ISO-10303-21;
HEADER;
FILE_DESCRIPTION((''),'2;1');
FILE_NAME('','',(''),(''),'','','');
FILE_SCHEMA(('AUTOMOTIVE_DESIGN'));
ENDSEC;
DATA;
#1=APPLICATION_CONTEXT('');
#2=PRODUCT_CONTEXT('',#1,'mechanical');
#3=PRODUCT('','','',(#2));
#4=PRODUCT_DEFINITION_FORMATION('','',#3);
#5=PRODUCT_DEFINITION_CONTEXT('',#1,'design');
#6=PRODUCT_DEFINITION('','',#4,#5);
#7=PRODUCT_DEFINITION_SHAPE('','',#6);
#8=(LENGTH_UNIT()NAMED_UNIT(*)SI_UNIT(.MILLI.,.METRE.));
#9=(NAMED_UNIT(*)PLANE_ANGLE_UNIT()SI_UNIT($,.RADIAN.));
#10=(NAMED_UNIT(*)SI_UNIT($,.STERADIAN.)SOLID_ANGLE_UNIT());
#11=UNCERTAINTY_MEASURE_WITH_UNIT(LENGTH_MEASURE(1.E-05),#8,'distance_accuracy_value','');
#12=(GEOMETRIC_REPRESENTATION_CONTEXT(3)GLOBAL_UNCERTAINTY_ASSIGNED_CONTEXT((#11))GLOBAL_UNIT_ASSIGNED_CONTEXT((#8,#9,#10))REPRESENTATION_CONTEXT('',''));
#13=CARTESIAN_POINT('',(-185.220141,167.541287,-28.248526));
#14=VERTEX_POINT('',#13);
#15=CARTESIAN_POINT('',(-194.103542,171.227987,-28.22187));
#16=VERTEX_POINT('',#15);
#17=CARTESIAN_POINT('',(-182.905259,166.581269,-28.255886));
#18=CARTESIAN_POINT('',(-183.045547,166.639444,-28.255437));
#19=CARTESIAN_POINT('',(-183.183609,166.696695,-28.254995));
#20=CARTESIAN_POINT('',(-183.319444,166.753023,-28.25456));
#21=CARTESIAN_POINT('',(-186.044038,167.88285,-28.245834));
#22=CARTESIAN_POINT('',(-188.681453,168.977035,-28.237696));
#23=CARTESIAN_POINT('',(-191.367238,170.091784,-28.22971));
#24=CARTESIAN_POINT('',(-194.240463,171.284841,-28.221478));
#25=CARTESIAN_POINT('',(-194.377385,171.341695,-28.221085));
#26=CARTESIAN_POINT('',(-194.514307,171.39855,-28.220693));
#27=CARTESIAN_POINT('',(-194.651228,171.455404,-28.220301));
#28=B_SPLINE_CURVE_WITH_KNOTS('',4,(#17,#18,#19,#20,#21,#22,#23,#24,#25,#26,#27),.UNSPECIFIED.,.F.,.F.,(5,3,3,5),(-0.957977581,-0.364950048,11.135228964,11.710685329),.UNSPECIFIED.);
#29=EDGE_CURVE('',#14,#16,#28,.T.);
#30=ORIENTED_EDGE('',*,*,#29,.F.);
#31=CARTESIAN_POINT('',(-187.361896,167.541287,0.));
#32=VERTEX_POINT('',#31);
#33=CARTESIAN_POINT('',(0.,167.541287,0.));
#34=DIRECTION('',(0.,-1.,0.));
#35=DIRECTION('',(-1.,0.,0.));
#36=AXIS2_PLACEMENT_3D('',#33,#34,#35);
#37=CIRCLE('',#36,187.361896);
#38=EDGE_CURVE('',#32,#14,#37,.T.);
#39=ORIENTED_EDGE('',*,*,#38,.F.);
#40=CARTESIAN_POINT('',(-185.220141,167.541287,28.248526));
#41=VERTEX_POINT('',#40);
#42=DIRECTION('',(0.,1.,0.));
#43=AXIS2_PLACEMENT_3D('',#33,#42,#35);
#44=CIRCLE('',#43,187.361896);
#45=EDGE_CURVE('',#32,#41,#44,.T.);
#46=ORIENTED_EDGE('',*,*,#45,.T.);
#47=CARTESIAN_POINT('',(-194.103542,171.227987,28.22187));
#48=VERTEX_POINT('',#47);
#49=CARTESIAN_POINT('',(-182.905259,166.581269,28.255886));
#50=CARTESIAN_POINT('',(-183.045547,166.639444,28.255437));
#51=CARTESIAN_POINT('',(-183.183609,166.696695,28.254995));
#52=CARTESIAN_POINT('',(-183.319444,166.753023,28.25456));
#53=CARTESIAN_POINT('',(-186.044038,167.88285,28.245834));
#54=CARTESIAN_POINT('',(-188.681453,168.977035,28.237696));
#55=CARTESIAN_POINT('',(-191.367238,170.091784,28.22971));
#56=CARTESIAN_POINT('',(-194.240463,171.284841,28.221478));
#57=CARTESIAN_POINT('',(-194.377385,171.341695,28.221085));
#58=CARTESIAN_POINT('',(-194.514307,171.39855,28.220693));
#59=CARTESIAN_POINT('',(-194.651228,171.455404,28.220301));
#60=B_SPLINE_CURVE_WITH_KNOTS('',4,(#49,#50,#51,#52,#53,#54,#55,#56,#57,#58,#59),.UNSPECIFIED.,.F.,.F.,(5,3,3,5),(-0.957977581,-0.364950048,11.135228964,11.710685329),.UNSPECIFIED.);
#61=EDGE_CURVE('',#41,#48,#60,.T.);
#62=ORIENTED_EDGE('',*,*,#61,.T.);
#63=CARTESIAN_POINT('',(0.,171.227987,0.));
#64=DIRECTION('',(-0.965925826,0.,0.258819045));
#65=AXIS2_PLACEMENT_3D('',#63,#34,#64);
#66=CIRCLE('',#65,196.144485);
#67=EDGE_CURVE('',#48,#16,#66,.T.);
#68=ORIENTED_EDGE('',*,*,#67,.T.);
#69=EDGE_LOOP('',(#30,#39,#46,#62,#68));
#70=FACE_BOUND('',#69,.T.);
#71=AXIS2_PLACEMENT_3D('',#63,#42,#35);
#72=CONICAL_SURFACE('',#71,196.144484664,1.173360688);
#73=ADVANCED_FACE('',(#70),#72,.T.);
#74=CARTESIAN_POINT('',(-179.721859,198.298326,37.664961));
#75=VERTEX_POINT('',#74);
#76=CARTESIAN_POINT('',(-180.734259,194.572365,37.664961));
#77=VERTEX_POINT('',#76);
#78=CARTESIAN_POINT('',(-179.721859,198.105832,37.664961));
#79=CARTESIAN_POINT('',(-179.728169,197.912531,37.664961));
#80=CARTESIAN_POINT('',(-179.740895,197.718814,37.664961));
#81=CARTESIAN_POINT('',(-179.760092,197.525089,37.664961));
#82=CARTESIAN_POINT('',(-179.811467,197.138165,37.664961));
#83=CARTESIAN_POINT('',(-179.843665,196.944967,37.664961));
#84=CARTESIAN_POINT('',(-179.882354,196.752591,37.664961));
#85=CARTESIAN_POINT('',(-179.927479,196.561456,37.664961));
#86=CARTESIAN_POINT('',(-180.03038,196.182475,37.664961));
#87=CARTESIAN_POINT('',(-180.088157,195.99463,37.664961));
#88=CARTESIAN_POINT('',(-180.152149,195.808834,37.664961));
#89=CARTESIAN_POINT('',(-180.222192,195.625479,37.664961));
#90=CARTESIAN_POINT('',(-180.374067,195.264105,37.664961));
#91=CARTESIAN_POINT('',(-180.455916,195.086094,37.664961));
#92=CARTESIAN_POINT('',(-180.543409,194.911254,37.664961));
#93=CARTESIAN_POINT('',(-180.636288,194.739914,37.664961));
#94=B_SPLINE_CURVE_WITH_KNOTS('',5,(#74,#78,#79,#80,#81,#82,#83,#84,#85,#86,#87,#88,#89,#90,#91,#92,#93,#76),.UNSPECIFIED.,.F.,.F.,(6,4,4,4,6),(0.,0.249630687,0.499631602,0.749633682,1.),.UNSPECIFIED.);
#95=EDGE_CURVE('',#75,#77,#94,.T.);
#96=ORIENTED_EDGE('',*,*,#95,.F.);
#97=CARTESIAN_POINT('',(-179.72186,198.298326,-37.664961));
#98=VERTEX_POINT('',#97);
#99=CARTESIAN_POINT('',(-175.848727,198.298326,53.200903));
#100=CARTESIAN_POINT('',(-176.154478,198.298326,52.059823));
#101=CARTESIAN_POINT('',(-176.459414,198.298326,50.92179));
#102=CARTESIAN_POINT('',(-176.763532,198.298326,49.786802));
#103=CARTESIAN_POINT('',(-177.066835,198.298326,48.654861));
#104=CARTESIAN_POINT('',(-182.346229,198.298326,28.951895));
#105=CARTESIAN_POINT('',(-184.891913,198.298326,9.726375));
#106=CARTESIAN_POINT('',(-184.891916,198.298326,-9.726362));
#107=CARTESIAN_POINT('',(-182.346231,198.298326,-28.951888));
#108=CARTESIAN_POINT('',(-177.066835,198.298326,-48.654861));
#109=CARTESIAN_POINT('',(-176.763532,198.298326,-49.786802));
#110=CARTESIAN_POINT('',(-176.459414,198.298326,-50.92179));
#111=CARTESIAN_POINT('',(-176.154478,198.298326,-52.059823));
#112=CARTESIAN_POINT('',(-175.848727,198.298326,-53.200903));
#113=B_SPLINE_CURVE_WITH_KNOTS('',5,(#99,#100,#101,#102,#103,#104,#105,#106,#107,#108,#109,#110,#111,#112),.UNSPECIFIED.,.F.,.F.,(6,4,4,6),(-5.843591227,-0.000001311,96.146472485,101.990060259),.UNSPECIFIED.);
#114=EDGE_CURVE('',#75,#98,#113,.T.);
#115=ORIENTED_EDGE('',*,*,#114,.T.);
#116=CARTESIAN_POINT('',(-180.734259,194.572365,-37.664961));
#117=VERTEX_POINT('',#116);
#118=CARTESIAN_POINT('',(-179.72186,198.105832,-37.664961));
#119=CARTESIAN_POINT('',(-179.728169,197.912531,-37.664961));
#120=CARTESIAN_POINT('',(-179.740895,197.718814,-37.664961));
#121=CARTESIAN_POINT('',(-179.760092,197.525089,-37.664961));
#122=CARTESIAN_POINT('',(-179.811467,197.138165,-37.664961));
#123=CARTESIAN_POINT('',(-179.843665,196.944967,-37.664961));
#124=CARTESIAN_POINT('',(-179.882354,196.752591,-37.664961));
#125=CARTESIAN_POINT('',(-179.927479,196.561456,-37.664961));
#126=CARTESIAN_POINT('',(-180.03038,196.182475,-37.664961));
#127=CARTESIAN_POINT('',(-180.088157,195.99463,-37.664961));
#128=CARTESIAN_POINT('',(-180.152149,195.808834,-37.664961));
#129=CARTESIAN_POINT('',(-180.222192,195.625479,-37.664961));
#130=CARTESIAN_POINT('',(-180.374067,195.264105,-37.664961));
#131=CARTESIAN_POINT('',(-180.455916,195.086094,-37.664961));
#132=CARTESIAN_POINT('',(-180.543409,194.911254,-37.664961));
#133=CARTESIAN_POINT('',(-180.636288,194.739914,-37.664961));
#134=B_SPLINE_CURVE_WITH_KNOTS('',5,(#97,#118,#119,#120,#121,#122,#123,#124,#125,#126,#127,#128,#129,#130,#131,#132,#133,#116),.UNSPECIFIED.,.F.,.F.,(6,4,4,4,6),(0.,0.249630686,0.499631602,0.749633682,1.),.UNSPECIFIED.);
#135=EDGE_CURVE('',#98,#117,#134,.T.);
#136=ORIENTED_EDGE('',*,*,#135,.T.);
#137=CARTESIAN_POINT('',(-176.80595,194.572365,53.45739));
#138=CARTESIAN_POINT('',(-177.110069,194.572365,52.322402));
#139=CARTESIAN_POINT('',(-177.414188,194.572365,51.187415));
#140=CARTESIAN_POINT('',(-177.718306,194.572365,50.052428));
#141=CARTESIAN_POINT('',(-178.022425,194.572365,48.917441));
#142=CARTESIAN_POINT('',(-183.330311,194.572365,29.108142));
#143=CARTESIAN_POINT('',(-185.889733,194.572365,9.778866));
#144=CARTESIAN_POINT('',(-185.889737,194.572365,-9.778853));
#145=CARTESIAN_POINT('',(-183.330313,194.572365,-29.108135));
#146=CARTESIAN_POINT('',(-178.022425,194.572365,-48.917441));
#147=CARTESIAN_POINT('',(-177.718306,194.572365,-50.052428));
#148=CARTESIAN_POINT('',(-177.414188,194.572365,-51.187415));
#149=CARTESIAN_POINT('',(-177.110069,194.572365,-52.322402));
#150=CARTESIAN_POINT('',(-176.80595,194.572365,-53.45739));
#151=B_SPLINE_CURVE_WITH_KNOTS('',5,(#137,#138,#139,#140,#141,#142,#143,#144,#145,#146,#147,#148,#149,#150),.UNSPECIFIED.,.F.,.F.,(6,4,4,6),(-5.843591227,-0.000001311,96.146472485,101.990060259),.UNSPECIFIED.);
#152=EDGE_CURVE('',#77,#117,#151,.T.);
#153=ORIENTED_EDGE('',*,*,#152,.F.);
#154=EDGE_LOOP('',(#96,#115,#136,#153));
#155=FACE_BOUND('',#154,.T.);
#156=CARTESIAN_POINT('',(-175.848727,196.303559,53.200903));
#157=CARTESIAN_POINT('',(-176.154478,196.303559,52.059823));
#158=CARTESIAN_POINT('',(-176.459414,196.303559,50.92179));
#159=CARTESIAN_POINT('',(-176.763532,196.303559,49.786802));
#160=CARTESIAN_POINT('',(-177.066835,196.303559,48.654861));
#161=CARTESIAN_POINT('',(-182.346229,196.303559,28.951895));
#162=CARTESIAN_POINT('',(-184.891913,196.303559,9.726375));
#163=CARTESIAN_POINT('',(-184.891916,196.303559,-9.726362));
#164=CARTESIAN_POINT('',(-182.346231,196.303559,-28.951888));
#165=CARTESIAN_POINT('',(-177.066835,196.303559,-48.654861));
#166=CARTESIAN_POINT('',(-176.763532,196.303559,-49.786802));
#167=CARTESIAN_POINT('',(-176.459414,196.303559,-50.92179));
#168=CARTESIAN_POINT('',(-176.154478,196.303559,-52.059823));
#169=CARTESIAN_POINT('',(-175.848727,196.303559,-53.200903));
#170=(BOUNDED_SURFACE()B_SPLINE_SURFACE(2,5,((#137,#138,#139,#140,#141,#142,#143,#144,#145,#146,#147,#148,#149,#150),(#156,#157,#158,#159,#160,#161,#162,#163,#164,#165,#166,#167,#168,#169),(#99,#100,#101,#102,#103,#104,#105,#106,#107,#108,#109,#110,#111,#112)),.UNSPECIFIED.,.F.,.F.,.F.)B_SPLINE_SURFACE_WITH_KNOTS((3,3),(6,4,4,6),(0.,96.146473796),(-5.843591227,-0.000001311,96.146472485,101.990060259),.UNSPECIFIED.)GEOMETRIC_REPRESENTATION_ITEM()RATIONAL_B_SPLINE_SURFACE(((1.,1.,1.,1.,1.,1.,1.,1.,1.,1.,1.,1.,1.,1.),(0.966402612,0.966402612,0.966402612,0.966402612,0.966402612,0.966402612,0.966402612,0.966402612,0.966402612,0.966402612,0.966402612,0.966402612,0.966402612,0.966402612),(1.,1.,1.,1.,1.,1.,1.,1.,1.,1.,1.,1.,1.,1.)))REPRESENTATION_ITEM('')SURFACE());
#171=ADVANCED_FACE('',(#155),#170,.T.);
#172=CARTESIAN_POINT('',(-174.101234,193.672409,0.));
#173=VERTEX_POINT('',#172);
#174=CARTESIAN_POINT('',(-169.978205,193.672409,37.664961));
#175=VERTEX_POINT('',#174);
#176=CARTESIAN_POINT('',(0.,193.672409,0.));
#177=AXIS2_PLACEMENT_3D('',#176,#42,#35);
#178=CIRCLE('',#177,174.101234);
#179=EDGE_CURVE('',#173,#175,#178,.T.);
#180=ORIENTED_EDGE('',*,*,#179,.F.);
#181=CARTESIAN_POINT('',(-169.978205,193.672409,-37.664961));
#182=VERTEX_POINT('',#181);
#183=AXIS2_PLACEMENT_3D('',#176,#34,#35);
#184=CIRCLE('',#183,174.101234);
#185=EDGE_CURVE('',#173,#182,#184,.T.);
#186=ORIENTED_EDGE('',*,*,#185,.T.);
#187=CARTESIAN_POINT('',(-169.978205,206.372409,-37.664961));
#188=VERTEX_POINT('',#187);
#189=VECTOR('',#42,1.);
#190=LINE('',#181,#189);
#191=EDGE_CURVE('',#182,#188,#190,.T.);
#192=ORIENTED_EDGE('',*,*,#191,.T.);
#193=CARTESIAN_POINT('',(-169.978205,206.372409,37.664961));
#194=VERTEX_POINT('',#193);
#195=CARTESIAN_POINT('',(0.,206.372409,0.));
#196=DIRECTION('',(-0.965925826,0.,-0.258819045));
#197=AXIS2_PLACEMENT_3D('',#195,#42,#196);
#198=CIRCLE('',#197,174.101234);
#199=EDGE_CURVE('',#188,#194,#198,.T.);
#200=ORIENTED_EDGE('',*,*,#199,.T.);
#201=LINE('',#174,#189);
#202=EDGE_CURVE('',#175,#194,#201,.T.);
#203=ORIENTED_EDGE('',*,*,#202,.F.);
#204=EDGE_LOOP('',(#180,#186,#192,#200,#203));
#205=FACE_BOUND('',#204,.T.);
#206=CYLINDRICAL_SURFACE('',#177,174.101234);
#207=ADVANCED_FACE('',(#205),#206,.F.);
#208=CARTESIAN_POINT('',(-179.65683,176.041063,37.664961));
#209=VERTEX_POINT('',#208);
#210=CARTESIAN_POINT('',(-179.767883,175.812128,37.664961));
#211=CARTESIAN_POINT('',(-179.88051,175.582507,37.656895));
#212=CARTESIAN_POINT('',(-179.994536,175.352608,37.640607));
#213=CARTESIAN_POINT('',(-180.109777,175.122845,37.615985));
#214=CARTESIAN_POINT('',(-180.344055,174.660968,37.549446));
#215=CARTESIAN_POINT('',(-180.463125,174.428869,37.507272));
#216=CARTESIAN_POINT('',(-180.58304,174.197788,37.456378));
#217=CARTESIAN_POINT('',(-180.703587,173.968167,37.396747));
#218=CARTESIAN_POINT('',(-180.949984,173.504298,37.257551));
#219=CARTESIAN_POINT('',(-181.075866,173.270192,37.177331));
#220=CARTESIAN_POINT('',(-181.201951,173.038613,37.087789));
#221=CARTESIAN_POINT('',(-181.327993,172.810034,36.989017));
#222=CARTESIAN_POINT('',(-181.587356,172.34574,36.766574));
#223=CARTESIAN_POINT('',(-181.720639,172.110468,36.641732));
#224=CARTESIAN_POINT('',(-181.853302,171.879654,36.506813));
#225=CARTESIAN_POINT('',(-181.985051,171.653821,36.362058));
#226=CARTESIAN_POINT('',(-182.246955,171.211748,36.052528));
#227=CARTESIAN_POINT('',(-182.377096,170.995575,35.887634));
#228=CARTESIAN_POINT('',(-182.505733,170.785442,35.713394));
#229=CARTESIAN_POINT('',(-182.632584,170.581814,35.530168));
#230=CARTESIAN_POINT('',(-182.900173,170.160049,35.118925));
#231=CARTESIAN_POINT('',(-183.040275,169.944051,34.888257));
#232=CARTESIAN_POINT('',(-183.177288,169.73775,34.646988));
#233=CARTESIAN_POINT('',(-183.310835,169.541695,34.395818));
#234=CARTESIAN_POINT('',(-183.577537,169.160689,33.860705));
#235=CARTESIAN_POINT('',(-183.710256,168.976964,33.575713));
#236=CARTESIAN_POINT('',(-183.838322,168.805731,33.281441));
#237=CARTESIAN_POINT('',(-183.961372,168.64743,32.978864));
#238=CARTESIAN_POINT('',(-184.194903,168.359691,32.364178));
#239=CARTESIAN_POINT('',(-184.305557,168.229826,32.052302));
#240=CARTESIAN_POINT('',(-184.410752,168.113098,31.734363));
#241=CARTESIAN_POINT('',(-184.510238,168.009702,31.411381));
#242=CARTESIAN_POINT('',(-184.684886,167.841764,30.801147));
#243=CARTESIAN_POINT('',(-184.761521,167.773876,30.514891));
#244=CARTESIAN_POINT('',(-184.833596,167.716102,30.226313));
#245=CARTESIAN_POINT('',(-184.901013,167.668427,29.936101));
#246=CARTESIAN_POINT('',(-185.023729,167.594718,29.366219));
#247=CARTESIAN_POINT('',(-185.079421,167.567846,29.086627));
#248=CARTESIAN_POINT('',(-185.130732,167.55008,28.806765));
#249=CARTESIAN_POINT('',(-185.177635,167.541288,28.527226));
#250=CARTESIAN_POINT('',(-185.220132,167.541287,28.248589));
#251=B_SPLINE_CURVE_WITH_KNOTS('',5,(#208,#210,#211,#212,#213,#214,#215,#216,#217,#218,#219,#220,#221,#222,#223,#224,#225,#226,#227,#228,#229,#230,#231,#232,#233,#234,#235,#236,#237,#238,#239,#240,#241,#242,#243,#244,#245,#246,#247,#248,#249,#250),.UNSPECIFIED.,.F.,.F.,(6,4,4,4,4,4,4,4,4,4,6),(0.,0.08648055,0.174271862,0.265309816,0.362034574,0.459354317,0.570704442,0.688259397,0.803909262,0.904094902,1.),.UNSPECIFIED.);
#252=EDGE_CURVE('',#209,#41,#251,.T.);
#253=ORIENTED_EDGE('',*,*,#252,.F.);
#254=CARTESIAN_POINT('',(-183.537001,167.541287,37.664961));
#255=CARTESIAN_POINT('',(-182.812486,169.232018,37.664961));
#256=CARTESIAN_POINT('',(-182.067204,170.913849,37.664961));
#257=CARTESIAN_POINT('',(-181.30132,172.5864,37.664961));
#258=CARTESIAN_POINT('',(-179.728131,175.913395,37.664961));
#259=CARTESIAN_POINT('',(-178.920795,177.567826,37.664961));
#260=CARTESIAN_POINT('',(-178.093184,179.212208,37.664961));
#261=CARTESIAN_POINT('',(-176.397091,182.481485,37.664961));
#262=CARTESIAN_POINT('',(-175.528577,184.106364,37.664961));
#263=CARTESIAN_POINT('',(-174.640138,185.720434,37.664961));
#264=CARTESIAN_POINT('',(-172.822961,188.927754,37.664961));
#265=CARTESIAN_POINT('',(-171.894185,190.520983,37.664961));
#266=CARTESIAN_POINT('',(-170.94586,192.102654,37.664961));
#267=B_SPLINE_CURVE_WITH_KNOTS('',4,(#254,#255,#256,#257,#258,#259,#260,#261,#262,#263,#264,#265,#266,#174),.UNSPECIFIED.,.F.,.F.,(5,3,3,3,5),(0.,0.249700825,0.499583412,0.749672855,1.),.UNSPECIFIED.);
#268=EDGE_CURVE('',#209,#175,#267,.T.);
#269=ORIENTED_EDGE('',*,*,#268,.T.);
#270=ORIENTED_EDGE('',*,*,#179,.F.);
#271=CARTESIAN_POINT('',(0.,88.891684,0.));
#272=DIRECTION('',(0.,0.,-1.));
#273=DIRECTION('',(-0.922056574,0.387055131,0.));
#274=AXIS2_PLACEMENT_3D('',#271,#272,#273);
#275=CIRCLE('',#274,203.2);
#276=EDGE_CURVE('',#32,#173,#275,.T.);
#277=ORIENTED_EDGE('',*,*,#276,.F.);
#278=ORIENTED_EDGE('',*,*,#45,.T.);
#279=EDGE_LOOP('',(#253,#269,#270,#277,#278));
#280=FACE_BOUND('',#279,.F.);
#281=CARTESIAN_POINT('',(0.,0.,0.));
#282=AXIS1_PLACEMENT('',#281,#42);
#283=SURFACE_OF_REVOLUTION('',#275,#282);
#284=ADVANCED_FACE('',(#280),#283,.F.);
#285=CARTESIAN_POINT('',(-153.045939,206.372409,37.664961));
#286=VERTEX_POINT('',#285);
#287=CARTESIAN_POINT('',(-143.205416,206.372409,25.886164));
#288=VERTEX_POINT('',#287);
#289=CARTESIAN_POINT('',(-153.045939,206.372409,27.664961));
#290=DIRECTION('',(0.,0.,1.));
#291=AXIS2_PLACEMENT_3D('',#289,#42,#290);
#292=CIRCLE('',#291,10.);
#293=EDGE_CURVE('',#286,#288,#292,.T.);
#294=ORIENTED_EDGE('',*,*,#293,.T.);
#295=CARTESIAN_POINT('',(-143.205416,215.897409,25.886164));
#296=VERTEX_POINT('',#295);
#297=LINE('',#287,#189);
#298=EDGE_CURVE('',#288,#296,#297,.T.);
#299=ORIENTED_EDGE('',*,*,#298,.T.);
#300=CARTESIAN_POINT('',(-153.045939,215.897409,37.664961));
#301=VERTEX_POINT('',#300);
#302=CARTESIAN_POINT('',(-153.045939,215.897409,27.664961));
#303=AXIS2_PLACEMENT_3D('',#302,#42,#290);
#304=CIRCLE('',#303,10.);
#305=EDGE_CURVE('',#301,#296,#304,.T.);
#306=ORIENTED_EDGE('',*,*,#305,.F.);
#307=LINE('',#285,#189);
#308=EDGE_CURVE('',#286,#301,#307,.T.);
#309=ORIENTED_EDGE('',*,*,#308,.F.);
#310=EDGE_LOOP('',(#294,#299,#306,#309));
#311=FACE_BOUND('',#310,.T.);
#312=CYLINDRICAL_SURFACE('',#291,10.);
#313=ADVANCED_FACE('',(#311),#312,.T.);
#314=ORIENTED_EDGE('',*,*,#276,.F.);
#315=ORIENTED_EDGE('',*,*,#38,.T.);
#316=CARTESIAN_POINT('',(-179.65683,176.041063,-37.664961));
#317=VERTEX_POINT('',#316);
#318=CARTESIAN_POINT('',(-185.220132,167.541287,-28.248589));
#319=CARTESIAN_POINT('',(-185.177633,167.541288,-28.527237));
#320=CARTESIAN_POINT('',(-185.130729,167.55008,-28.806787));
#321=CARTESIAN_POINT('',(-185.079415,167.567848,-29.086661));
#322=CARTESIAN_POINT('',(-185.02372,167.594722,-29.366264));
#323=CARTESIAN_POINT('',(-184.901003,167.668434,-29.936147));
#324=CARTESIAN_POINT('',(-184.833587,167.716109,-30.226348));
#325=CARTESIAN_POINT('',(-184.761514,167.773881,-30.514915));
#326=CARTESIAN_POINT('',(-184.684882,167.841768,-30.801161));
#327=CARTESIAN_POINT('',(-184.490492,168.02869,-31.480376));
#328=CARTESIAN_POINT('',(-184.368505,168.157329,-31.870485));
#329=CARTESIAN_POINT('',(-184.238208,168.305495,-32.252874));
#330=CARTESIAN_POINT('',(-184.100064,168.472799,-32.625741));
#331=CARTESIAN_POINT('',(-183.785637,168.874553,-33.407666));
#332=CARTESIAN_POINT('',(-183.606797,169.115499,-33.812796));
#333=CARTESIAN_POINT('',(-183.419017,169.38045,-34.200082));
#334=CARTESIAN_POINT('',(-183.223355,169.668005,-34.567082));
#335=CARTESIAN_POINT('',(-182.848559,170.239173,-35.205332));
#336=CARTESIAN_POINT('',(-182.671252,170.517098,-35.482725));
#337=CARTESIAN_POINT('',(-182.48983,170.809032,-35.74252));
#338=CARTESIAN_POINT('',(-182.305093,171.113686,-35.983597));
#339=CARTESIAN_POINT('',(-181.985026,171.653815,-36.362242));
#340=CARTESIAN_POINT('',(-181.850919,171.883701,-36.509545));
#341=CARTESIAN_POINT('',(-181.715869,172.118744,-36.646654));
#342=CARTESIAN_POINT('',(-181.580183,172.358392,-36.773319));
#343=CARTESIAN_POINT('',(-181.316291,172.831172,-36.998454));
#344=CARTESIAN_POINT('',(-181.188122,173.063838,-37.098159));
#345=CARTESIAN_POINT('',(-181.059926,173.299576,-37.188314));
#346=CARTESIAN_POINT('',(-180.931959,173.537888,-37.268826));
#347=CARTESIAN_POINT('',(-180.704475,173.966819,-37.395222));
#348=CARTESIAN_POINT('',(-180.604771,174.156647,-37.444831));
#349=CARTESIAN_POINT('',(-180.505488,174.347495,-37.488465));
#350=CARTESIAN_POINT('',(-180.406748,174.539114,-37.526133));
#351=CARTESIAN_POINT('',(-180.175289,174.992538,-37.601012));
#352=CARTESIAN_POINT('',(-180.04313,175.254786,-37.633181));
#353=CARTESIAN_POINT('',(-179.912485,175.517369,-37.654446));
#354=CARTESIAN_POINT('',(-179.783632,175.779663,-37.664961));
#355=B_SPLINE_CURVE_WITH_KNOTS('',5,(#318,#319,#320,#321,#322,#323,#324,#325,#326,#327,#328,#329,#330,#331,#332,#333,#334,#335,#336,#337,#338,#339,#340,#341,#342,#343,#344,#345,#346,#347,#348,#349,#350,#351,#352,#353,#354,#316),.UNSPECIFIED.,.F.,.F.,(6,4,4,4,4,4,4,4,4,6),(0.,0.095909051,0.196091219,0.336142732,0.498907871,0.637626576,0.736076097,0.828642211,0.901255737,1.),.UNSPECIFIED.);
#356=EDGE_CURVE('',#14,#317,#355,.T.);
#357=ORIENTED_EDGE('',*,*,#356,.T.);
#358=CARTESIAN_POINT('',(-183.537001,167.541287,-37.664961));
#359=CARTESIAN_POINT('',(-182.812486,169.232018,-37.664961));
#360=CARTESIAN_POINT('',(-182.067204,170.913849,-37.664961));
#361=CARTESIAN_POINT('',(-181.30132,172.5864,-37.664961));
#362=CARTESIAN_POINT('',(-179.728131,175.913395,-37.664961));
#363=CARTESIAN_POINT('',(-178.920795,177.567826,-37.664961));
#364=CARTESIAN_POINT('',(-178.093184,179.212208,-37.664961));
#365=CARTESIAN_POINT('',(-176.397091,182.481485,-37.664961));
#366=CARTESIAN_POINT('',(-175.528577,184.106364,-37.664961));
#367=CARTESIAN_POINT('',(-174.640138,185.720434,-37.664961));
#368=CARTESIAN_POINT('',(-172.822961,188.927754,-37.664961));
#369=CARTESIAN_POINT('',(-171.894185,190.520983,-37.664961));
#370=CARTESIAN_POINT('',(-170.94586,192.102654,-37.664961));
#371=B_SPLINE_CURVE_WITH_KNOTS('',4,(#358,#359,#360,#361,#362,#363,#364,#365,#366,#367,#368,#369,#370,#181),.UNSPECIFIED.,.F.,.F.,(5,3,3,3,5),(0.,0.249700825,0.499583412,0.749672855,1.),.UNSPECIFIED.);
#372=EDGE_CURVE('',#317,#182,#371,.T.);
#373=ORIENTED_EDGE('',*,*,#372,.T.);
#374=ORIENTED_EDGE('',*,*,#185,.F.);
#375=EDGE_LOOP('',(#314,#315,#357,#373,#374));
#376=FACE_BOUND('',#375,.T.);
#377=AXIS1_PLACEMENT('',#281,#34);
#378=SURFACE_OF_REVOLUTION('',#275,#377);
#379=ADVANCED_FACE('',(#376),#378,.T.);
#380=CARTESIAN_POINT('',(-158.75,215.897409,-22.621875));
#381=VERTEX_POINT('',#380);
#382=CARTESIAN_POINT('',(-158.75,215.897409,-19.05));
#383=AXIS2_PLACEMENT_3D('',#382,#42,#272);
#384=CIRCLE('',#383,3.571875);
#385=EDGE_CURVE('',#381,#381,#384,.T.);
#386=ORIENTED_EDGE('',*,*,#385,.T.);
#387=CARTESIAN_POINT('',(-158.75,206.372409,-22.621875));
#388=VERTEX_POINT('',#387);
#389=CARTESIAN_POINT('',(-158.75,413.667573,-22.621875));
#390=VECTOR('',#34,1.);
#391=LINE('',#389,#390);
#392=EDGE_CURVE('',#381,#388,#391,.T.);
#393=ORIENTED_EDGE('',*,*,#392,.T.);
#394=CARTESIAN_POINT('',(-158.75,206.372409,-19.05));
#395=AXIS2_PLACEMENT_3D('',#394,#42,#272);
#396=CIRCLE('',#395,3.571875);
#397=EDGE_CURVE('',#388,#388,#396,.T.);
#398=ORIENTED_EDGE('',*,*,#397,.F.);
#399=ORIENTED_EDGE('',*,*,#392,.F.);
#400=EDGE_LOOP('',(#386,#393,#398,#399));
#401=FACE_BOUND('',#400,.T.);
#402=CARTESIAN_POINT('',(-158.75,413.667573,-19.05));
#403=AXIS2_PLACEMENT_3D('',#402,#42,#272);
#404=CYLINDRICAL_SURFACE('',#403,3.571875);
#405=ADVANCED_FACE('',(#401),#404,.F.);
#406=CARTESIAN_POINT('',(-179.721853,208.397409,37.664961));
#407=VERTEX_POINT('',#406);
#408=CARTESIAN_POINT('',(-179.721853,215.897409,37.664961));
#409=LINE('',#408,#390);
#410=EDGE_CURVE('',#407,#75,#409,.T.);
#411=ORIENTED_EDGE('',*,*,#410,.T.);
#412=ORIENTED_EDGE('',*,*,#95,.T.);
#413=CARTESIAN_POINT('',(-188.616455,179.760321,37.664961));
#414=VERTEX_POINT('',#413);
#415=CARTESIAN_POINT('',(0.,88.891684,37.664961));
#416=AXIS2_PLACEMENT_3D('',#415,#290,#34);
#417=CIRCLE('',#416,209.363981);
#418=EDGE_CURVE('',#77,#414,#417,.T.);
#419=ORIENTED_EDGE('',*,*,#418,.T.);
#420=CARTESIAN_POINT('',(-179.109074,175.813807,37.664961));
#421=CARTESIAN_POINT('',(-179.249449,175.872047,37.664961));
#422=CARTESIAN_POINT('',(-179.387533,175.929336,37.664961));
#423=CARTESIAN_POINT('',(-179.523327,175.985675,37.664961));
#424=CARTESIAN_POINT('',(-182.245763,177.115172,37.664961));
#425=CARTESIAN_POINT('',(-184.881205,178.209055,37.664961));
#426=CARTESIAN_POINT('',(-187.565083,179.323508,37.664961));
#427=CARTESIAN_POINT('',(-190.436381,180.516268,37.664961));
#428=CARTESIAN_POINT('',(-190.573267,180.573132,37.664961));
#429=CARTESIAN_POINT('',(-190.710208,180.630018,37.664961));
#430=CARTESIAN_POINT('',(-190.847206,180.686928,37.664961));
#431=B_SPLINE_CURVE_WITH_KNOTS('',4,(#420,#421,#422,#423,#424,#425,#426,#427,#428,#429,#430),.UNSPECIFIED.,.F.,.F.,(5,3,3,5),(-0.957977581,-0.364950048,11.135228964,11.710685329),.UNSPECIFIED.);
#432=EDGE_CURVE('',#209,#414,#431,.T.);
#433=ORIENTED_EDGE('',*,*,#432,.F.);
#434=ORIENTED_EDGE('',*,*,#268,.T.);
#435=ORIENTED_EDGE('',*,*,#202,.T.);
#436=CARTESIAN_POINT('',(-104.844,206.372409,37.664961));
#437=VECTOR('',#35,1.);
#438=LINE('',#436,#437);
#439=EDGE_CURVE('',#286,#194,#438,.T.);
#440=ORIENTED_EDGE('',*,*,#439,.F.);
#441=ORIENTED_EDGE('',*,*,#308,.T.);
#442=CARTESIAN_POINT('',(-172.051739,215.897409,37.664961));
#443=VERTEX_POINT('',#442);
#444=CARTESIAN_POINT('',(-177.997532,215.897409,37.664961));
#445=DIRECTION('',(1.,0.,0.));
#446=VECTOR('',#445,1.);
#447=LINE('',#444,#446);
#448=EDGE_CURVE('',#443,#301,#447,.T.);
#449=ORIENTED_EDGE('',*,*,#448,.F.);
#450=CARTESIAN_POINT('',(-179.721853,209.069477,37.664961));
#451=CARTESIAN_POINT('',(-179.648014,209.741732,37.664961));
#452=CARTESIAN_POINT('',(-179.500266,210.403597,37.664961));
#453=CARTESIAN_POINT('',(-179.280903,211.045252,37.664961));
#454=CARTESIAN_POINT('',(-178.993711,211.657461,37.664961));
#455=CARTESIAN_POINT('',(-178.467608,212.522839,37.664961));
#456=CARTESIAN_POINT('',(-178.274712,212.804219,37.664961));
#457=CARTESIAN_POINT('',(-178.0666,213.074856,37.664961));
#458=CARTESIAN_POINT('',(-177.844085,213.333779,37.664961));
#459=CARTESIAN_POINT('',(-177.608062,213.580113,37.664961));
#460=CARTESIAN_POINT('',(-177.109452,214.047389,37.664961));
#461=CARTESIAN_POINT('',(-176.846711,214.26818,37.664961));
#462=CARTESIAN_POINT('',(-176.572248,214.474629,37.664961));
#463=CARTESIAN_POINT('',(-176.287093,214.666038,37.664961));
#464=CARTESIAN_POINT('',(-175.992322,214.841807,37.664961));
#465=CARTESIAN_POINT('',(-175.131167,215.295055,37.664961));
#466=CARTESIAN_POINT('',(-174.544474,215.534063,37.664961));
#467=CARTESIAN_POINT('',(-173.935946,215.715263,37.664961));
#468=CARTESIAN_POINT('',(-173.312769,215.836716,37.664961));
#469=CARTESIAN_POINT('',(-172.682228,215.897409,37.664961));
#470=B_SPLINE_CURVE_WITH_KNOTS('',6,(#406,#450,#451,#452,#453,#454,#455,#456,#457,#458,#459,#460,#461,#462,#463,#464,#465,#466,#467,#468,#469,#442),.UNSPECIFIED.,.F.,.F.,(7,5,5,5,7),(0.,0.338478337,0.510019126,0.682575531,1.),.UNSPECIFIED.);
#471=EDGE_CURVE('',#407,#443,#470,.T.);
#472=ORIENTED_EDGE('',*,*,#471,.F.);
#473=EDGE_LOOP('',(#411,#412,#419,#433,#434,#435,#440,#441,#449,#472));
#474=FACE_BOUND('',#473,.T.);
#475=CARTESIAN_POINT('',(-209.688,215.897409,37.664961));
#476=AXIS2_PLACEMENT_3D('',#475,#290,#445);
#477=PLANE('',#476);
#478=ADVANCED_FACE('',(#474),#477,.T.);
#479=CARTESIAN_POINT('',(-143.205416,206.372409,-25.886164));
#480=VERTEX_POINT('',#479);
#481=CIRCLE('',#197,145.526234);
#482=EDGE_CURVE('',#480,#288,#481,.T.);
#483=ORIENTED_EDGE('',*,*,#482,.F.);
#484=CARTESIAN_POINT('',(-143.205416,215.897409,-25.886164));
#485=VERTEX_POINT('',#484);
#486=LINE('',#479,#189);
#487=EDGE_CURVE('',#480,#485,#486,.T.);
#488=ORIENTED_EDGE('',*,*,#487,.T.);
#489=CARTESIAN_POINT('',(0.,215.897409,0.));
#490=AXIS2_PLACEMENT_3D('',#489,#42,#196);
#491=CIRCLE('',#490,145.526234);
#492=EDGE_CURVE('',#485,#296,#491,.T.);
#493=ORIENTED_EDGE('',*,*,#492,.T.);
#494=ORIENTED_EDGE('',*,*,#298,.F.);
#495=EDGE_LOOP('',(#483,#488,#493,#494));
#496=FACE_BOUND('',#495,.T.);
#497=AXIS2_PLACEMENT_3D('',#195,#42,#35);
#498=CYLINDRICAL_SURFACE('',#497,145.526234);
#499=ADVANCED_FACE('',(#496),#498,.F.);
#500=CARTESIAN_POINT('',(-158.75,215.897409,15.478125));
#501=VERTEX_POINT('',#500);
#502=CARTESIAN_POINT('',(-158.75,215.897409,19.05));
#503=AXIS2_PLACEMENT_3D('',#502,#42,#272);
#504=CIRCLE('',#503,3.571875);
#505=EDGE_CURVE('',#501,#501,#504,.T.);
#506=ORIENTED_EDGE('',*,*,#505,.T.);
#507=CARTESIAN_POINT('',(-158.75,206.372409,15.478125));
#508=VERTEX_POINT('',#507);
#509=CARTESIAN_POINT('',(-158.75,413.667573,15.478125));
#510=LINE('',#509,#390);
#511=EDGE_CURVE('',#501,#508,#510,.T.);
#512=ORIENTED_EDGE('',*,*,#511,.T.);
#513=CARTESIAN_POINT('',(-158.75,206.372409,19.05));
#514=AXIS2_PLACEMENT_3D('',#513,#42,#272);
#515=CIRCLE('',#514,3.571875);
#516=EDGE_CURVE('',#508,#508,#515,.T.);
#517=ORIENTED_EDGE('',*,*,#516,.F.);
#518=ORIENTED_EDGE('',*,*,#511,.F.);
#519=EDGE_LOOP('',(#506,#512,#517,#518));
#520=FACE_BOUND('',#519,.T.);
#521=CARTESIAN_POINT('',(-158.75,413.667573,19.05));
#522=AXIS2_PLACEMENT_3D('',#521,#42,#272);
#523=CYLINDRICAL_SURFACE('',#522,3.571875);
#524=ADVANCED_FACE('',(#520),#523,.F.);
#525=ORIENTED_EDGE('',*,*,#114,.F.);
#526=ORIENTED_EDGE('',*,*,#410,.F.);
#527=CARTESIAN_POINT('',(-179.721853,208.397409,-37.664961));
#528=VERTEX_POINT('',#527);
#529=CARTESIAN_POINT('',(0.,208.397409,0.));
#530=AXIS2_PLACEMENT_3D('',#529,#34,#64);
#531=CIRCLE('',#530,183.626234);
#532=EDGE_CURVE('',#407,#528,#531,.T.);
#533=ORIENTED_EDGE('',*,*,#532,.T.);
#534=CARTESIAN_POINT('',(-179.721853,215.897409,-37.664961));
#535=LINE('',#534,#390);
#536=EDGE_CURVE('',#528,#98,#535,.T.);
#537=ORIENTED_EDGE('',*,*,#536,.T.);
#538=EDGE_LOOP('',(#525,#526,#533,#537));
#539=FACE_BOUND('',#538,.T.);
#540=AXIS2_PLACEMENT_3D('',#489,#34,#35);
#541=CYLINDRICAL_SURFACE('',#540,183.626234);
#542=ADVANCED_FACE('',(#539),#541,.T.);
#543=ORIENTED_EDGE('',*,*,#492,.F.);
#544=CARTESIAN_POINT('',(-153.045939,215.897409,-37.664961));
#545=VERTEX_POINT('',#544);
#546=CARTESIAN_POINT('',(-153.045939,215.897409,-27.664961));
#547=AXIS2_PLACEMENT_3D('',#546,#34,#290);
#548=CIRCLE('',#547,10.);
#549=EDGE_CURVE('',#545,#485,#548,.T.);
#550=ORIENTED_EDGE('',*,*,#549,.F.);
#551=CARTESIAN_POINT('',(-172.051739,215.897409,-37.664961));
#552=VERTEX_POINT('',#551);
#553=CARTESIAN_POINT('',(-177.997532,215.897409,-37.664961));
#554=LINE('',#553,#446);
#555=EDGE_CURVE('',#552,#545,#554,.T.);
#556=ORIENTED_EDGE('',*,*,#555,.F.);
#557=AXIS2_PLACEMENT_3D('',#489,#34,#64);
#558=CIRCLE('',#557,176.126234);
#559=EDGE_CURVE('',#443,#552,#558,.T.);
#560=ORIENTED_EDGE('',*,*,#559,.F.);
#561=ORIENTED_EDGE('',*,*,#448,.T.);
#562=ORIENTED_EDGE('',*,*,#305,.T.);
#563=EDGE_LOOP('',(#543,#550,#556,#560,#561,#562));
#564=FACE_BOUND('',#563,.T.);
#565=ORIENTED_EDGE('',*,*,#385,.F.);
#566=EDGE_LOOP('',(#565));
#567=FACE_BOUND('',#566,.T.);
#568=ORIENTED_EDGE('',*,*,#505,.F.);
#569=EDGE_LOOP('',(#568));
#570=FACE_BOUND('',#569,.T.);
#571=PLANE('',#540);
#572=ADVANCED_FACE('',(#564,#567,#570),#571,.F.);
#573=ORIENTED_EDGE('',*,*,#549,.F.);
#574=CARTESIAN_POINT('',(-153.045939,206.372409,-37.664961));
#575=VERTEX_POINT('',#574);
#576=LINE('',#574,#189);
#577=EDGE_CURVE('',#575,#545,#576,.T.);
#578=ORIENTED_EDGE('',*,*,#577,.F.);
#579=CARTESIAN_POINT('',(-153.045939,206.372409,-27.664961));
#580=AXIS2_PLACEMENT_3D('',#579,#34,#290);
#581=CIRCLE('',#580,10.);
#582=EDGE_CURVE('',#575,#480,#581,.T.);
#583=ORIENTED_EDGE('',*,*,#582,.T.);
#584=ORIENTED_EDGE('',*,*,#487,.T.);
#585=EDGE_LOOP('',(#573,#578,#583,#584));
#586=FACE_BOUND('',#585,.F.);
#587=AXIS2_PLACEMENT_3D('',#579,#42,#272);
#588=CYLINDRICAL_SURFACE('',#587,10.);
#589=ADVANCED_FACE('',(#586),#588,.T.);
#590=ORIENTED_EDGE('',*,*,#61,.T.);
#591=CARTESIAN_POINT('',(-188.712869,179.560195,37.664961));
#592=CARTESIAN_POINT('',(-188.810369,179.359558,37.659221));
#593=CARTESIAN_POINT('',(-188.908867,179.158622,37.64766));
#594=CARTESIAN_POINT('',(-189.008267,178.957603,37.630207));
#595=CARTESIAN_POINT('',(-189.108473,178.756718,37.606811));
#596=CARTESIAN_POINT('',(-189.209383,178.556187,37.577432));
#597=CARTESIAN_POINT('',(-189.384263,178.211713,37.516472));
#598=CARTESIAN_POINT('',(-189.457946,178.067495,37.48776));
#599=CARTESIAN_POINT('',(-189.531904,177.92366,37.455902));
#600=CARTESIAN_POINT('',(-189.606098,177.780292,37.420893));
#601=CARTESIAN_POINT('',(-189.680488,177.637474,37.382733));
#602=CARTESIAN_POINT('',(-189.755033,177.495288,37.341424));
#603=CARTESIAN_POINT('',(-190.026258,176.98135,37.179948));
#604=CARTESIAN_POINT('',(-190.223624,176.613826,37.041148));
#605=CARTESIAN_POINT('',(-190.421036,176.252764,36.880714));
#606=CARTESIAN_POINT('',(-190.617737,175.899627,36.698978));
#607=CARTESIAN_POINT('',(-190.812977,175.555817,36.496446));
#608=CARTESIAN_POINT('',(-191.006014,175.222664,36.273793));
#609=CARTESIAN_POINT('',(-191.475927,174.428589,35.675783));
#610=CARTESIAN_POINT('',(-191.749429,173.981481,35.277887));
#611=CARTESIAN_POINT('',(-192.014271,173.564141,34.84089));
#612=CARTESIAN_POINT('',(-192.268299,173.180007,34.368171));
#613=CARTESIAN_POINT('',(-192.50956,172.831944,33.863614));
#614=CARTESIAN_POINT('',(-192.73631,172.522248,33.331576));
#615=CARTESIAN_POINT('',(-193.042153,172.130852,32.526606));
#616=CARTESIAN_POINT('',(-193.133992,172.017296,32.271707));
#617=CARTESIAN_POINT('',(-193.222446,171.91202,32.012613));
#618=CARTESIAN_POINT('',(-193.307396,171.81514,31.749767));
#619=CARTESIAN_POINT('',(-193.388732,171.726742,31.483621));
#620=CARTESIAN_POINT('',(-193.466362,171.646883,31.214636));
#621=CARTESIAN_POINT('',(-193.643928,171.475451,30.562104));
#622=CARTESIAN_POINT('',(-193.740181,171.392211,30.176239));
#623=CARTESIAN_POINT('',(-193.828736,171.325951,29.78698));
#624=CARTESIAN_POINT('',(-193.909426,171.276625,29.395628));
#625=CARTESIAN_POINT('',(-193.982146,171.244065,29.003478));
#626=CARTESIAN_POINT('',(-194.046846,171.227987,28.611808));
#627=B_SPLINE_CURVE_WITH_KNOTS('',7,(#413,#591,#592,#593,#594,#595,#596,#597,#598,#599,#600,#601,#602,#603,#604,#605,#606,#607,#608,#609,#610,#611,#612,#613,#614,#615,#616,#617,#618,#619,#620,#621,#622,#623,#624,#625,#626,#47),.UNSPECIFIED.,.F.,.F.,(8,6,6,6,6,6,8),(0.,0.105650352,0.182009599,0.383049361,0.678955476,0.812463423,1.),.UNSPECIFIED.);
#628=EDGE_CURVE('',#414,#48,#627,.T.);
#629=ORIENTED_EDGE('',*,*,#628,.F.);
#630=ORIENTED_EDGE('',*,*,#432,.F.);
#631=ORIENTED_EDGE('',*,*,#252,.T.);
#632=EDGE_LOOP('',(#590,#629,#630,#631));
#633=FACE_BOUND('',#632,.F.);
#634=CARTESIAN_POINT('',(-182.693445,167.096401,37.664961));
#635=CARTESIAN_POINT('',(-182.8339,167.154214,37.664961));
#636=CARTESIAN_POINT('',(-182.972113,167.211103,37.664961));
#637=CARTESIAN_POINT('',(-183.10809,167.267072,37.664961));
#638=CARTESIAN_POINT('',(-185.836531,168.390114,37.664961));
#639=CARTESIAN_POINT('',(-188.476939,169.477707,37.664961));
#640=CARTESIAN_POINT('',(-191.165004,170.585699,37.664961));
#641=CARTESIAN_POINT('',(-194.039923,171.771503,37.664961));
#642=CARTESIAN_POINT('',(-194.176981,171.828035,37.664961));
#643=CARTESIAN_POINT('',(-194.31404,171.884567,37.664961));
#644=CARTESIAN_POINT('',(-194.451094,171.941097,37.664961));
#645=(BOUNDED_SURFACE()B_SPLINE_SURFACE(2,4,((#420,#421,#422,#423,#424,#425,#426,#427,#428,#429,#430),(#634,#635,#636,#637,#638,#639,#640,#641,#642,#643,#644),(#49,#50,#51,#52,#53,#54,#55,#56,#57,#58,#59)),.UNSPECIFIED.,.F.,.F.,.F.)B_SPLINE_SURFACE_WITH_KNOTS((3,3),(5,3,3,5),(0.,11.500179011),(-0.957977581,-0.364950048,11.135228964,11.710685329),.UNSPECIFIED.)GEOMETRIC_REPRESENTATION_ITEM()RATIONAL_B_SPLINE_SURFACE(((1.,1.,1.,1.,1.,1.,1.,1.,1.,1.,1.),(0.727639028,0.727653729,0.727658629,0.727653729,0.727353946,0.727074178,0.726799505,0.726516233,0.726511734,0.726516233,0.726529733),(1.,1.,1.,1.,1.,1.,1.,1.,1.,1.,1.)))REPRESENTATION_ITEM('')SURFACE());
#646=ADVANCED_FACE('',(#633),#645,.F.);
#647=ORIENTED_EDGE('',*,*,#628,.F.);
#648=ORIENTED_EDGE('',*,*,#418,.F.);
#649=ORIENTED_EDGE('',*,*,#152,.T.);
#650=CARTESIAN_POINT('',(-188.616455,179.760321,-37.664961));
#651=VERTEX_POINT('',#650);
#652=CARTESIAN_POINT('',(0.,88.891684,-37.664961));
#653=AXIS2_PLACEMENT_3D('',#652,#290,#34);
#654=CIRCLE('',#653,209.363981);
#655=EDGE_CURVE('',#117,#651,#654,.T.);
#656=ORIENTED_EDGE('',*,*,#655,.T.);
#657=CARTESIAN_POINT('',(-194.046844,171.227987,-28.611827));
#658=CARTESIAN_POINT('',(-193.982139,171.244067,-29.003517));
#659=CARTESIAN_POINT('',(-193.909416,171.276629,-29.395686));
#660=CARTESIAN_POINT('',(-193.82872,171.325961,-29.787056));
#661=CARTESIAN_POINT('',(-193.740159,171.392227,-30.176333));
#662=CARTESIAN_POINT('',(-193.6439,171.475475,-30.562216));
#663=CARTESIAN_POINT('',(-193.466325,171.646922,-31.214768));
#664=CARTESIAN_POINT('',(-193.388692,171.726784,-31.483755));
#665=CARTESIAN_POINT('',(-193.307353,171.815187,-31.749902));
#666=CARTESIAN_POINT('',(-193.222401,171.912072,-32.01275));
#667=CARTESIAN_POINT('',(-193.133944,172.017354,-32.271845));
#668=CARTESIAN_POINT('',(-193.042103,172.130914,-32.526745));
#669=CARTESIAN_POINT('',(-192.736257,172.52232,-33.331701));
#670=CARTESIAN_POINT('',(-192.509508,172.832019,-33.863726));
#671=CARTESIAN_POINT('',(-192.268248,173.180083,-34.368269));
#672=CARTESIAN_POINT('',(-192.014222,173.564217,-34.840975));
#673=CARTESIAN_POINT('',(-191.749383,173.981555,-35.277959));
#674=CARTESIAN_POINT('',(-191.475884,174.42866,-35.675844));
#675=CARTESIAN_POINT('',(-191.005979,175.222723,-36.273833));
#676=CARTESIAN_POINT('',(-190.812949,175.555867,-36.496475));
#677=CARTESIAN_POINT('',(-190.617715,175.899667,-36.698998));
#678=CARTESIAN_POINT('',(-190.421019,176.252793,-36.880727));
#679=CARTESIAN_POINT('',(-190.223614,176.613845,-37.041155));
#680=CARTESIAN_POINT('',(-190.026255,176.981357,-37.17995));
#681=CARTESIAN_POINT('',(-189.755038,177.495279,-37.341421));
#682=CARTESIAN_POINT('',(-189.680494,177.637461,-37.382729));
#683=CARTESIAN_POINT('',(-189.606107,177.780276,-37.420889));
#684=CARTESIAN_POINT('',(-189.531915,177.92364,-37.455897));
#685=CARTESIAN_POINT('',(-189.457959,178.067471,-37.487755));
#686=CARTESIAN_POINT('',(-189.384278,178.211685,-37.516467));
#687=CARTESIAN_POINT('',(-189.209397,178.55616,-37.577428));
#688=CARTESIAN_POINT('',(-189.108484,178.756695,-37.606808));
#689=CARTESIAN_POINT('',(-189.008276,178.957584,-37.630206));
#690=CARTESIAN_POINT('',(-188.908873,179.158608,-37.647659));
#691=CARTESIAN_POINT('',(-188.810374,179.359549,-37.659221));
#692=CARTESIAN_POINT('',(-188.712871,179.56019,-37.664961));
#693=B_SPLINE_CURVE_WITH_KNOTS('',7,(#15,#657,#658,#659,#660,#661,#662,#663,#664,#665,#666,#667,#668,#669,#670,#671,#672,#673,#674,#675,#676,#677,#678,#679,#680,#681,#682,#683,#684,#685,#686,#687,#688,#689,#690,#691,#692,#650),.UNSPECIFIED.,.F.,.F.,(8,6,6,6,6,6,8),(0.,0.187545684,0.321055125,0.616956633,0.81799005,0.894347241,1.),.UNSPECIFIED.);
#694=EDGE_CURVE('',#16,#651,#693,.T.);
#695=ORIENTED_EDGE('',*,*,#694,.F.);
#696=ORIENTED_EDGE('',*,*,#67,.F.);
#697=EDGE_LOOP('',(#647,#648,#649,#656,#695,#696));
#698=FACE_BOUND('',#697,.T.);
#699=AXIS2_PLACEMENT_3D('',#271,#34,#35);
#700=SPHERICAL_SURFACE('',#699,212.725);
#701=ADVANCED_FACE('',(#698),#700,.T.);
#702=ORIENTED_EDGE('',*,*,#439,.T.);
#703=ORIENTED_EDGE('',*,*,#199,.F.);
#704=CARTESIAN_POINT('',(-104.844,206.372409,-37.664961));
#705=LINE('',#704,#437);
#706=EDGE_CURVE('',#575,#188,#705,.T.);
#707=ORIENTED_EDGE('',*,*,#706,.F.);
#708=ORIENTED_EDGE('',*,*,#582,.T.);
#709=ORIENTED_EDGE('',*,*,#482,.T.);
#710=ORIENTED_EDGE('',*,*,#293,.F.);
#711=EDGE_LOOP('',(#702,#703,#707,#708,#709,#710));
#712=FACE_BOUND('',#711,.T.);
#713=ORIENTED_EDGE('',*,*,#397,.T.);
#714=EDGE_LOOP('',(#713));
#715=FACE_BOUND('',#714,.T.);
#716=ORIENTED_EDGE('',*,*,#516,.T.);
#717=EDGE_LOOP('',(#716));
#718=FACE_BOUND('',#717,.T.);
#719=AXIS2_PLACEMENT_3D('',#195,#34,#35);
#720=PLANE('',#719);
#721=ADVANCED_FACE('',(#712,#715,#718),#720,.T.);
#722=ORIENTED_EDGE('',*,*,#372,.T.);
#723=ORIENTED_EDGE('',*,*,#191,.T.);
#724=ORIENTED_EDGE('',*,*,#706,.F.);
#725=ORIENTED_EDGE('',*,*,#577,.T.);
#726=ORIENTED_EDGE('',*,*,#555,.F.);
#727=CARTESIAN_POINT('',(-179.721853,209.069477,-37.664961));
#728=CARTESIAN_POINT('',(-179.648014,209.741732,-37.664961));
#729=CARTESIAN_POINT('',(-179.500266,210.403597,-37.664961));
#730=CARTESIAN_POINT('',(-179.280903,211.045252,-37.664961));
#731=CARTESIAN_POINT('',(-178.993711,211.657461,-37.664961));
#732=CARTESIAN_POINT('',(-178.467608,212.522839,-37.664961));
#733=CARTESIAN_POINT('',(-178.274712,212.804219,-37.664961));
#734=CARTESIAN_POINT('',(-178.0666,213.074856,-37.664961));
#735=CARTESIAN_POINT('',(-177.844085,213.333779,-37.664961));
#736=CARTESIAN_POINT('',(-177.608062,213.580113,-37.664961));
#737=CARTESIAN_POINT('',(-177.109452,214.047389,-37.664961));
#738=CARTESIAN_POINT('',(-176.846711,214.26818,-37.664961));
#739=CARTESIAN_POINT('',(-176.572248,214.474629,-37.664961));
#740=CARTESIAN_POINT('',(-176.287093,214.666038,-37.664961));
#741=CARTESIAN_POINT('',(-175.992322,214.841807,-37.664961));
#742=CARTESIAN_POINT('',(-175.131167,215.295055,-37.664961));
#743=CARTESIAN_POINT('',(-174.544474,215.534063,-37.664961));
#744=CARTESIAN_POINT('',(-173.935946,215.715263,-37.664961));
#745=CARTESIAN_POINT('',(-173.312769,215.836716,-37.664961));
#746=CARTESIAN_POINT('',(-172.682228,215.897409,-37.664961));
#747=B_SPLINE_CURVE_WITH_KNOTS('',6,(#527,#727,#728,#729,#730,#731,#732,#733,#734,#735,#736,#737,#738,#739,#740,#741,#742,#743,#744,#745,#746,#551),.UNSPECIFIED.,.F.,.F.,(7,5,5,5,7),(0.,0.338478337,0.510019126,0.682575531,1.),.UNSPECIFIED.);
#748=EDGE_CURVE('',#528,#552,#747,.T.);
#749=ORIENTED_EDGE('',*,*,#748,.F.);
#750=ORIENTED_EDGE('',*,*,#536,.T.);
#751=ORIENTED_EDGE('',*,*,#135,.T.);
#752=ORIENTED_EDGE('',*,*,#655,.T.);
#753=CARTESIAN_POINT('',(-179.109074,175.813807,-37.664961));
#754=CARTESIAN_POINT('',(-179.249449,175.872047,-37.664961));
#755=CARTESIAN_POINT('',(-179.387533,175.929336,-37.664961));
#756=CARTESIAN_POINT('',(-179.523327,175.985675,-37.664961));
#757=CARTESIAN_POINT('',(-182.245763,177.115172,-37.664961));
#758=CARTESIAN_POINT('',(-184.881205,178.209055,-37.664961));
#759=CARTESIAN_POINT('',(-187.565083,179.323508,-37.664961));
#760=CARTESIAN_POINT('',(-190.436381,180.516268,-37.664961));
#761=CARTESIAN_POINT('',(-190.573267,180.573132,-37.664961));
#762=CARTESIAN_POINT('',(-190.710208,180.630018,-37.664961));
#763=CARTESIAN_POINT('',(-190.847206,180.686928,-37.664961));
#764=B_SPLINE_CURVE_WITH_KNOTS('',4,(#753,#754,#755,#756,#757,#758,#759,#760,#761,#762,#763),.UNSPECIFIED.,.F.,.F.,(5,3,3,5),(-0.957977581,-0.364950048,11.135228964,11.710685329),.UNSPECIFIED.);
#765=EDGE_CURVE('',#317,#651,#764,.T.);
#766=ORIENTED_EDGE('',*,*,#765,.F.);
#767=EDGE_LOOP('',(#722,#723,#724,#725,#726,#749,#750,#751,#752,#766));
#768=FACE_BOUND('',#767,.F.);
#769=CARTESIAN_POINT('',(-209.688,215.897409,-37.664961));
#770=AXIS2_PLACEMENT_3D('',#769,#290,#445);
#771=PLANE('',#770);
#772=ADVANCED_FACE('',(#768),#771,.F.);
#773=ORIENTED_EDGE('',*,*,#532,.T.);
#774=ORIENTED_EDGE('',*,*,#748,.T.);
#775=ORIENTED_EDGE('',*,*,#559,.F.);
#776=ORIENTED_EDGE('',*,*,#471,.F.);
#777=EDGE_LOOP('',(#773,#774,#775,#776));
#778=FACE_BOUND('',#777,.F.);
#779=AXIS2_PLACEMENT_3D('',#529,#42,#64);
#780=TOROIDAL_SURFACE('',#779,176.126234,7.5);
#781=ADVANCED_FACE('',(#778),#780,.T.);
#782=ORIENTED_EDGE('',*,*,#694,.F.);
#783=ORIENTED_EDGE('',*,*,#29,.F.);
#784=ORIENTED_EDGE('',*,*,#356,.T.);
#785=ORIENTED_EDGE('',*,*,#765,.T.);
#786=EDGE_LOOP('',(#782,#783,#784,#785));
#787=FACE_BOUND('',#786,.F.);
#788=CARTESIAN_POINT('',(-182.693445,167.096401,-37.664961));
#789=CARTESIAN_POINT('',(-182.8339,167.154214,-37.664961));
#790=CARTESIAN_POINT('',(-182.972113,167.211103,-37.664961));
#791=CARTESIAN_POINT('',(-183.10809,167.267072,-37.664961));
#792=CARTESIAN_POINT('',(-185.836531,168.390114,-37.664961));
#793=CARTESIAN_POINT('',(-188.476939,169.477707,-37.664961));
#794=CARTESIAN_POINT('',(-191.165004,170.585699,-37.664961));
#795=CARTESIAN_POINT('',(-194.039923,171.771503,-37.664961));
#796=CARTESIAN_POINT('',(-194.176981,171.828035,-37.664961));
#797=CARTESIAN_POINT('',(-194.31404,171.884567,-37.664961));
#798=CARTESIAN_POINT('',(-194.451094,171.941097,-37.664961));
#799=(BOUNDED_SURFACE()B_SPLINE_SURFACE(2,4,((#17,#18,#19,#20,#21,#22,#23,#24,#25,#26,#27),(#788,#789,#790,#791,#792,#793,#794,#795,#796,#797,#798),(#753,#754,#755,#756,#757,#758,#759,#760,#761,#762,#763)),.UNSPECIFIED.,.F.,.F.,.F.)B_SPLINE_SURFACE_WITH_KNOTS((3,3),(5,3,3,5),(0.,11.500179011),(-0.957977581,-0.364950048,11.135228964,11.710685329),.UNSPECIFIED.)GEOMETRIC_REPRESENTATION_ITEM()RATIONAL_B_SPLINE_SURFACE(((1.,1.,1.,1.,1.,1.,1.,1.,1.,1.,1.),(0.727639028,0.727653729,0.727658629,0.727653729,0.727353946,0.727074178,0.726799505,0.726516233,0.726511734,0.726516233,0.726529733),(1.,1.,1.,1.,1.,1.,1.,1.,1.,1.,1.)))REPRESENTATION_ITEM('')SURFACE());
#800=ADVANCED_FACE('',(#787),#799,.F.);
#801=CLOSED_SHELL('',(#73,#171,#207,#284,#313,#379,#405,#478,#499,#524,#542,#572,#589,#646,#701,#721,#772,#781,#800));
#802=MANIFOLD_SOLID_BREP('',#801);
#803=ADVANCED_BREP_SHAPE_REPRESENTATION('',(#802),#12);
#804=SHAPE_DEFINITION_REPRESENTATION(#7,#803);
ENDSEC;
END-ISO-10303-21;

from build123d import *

# Parameters (mm, degrees)
REVOLVE1_ANGLE          = 30
FILLET1_R               = 7.5
CUT_EXTRUDE1_DEPTH      = 207.295163461
CUT_EXTRUDE1_DEPTH_BACK = 207.295163461
SKETCH3_R               = 3.571875
SKETCH4_OUTSIDE_W       = 82.664
SKETCH4_OUTSIDE_H       = 128.62
SKETCH4_OUTSIDE_W_2     = 74.859969382
SKETCH4_OUTSIDE_H_2     = 75.329921726
CUT_EXTRUDE2_DEPTH      = 209.298230862
FILLET2_R               = 10


with BuildPart() as part:
    # Sketch2 → Revolve1 (revolve, symmetric)
    with BuildSketch(Plane.XY) as revolve1_sk:
        with BuildLine():
            Line((-196.144484664, 171.227986779), (-187.361895799, 167.541286653))
            ThreePointArc((-187.361895799, 167.541286653), (-181.203221282, 180.846197706), (-174.101233777, 193.672409282))
            Line((-174.101233777, 193.672409282), (-174.101233777, 206.372409282))
            Line((-174.101233777, 206.372409282), (-145.526233777, 206.372409282))
            Line((-145.526233777, 206.372409282), (-145.526233777, 215.897409282))
            Line((-145.526233777, 215.897409282), (-183.626233777, 215.897409282))
            Line((-183.626233777, 215.897409282), (-183.626233777, 196.285035224))
            ThreePointArc((-183.626233777, 196.285035224), (-190.298222707, 183.962773472), (-196.144484664, 171.227986779))
        make_face()
    revolve(axis=Axis((0, 0, 0), (0, 1, 0)), revolution_arc=REVOLVE1_ANGLE / 2)
    revolve(revolve1_sk.sketch, axis=Axis((0, 0, 0), (0, -1, 0)), revolution_arc=REVOLVE1_ANGLE / 2)

    # Fillet1
    fillet1_edges = [part.edges().sort_by_distance(p)[0] for p in [
        (-183.626233777, 196.285035224, 0),
        (-183.626233777, 215.897409282, 0),
    ]]
    fillet(fillet1_edges, radius=FILLET1_R)

    # Sketch3 → Cut-Extrude1 (cut, two sides: drawn at the far end of the back side and taken through both)
    with BuildSketch(Plane.XZ.offset(-206.372409282).offset(-CUT_EXTRUDE1_DEPTH_BACK)):
        with Locations(Location((-158.75, 19.05, 0), (0, 0, 270))):
            Circle(SKETCH3_R)
        with Locations(Location((-158.75, -19.05, 0), (0, 0, 270))):
            Circle(SKETCH3_R)
    extrude(amount=CUT_EXTRUDE1_DEPTH + CUT_EXTRUDE1_DEPTH_BACK, mode=Mode.SUBTRACT)

    # Sketch4 outside → Cut-Extrude2 (cut, through all)
    with BuildSketch(Plane(origin=(0, 215.897409282, 0), x_dir=(1, 0, 0), z_dir=(0, 1, 0))):
        with Locations((-168.356, 0)):
            Rectangle(SKETCH4_OUTSIDE_W, SKETCH4_OUTSIDE_H)
        with Locations((-177.997532298, 0)):
            Rectangle(SKETCH4_OUTSIDE_W_2, SKETCH4_OUTSIDE_H_2, mode=Mode.SUBTRACT)
    extrude(amount=-CUT_EXTRUDE2_DEPTH, mode=Mode.SUBTRACT)

    # Fillet2
    fillet2_edges = [part.edges().sort_by_distance(p)[0] for p in [
        (-140.567547607, 211.134909282, 37.664960863),
        (-188.015889107, 169.383911967, 37.664960863),
        (-188.015889107, 169.383911967, -37.664960863),
        (-140.567547607, 211.134909282, -37.664960863),
    ]]
    fillet(fillet2_edges, radius=FILLET2_R)


solid = part.part
